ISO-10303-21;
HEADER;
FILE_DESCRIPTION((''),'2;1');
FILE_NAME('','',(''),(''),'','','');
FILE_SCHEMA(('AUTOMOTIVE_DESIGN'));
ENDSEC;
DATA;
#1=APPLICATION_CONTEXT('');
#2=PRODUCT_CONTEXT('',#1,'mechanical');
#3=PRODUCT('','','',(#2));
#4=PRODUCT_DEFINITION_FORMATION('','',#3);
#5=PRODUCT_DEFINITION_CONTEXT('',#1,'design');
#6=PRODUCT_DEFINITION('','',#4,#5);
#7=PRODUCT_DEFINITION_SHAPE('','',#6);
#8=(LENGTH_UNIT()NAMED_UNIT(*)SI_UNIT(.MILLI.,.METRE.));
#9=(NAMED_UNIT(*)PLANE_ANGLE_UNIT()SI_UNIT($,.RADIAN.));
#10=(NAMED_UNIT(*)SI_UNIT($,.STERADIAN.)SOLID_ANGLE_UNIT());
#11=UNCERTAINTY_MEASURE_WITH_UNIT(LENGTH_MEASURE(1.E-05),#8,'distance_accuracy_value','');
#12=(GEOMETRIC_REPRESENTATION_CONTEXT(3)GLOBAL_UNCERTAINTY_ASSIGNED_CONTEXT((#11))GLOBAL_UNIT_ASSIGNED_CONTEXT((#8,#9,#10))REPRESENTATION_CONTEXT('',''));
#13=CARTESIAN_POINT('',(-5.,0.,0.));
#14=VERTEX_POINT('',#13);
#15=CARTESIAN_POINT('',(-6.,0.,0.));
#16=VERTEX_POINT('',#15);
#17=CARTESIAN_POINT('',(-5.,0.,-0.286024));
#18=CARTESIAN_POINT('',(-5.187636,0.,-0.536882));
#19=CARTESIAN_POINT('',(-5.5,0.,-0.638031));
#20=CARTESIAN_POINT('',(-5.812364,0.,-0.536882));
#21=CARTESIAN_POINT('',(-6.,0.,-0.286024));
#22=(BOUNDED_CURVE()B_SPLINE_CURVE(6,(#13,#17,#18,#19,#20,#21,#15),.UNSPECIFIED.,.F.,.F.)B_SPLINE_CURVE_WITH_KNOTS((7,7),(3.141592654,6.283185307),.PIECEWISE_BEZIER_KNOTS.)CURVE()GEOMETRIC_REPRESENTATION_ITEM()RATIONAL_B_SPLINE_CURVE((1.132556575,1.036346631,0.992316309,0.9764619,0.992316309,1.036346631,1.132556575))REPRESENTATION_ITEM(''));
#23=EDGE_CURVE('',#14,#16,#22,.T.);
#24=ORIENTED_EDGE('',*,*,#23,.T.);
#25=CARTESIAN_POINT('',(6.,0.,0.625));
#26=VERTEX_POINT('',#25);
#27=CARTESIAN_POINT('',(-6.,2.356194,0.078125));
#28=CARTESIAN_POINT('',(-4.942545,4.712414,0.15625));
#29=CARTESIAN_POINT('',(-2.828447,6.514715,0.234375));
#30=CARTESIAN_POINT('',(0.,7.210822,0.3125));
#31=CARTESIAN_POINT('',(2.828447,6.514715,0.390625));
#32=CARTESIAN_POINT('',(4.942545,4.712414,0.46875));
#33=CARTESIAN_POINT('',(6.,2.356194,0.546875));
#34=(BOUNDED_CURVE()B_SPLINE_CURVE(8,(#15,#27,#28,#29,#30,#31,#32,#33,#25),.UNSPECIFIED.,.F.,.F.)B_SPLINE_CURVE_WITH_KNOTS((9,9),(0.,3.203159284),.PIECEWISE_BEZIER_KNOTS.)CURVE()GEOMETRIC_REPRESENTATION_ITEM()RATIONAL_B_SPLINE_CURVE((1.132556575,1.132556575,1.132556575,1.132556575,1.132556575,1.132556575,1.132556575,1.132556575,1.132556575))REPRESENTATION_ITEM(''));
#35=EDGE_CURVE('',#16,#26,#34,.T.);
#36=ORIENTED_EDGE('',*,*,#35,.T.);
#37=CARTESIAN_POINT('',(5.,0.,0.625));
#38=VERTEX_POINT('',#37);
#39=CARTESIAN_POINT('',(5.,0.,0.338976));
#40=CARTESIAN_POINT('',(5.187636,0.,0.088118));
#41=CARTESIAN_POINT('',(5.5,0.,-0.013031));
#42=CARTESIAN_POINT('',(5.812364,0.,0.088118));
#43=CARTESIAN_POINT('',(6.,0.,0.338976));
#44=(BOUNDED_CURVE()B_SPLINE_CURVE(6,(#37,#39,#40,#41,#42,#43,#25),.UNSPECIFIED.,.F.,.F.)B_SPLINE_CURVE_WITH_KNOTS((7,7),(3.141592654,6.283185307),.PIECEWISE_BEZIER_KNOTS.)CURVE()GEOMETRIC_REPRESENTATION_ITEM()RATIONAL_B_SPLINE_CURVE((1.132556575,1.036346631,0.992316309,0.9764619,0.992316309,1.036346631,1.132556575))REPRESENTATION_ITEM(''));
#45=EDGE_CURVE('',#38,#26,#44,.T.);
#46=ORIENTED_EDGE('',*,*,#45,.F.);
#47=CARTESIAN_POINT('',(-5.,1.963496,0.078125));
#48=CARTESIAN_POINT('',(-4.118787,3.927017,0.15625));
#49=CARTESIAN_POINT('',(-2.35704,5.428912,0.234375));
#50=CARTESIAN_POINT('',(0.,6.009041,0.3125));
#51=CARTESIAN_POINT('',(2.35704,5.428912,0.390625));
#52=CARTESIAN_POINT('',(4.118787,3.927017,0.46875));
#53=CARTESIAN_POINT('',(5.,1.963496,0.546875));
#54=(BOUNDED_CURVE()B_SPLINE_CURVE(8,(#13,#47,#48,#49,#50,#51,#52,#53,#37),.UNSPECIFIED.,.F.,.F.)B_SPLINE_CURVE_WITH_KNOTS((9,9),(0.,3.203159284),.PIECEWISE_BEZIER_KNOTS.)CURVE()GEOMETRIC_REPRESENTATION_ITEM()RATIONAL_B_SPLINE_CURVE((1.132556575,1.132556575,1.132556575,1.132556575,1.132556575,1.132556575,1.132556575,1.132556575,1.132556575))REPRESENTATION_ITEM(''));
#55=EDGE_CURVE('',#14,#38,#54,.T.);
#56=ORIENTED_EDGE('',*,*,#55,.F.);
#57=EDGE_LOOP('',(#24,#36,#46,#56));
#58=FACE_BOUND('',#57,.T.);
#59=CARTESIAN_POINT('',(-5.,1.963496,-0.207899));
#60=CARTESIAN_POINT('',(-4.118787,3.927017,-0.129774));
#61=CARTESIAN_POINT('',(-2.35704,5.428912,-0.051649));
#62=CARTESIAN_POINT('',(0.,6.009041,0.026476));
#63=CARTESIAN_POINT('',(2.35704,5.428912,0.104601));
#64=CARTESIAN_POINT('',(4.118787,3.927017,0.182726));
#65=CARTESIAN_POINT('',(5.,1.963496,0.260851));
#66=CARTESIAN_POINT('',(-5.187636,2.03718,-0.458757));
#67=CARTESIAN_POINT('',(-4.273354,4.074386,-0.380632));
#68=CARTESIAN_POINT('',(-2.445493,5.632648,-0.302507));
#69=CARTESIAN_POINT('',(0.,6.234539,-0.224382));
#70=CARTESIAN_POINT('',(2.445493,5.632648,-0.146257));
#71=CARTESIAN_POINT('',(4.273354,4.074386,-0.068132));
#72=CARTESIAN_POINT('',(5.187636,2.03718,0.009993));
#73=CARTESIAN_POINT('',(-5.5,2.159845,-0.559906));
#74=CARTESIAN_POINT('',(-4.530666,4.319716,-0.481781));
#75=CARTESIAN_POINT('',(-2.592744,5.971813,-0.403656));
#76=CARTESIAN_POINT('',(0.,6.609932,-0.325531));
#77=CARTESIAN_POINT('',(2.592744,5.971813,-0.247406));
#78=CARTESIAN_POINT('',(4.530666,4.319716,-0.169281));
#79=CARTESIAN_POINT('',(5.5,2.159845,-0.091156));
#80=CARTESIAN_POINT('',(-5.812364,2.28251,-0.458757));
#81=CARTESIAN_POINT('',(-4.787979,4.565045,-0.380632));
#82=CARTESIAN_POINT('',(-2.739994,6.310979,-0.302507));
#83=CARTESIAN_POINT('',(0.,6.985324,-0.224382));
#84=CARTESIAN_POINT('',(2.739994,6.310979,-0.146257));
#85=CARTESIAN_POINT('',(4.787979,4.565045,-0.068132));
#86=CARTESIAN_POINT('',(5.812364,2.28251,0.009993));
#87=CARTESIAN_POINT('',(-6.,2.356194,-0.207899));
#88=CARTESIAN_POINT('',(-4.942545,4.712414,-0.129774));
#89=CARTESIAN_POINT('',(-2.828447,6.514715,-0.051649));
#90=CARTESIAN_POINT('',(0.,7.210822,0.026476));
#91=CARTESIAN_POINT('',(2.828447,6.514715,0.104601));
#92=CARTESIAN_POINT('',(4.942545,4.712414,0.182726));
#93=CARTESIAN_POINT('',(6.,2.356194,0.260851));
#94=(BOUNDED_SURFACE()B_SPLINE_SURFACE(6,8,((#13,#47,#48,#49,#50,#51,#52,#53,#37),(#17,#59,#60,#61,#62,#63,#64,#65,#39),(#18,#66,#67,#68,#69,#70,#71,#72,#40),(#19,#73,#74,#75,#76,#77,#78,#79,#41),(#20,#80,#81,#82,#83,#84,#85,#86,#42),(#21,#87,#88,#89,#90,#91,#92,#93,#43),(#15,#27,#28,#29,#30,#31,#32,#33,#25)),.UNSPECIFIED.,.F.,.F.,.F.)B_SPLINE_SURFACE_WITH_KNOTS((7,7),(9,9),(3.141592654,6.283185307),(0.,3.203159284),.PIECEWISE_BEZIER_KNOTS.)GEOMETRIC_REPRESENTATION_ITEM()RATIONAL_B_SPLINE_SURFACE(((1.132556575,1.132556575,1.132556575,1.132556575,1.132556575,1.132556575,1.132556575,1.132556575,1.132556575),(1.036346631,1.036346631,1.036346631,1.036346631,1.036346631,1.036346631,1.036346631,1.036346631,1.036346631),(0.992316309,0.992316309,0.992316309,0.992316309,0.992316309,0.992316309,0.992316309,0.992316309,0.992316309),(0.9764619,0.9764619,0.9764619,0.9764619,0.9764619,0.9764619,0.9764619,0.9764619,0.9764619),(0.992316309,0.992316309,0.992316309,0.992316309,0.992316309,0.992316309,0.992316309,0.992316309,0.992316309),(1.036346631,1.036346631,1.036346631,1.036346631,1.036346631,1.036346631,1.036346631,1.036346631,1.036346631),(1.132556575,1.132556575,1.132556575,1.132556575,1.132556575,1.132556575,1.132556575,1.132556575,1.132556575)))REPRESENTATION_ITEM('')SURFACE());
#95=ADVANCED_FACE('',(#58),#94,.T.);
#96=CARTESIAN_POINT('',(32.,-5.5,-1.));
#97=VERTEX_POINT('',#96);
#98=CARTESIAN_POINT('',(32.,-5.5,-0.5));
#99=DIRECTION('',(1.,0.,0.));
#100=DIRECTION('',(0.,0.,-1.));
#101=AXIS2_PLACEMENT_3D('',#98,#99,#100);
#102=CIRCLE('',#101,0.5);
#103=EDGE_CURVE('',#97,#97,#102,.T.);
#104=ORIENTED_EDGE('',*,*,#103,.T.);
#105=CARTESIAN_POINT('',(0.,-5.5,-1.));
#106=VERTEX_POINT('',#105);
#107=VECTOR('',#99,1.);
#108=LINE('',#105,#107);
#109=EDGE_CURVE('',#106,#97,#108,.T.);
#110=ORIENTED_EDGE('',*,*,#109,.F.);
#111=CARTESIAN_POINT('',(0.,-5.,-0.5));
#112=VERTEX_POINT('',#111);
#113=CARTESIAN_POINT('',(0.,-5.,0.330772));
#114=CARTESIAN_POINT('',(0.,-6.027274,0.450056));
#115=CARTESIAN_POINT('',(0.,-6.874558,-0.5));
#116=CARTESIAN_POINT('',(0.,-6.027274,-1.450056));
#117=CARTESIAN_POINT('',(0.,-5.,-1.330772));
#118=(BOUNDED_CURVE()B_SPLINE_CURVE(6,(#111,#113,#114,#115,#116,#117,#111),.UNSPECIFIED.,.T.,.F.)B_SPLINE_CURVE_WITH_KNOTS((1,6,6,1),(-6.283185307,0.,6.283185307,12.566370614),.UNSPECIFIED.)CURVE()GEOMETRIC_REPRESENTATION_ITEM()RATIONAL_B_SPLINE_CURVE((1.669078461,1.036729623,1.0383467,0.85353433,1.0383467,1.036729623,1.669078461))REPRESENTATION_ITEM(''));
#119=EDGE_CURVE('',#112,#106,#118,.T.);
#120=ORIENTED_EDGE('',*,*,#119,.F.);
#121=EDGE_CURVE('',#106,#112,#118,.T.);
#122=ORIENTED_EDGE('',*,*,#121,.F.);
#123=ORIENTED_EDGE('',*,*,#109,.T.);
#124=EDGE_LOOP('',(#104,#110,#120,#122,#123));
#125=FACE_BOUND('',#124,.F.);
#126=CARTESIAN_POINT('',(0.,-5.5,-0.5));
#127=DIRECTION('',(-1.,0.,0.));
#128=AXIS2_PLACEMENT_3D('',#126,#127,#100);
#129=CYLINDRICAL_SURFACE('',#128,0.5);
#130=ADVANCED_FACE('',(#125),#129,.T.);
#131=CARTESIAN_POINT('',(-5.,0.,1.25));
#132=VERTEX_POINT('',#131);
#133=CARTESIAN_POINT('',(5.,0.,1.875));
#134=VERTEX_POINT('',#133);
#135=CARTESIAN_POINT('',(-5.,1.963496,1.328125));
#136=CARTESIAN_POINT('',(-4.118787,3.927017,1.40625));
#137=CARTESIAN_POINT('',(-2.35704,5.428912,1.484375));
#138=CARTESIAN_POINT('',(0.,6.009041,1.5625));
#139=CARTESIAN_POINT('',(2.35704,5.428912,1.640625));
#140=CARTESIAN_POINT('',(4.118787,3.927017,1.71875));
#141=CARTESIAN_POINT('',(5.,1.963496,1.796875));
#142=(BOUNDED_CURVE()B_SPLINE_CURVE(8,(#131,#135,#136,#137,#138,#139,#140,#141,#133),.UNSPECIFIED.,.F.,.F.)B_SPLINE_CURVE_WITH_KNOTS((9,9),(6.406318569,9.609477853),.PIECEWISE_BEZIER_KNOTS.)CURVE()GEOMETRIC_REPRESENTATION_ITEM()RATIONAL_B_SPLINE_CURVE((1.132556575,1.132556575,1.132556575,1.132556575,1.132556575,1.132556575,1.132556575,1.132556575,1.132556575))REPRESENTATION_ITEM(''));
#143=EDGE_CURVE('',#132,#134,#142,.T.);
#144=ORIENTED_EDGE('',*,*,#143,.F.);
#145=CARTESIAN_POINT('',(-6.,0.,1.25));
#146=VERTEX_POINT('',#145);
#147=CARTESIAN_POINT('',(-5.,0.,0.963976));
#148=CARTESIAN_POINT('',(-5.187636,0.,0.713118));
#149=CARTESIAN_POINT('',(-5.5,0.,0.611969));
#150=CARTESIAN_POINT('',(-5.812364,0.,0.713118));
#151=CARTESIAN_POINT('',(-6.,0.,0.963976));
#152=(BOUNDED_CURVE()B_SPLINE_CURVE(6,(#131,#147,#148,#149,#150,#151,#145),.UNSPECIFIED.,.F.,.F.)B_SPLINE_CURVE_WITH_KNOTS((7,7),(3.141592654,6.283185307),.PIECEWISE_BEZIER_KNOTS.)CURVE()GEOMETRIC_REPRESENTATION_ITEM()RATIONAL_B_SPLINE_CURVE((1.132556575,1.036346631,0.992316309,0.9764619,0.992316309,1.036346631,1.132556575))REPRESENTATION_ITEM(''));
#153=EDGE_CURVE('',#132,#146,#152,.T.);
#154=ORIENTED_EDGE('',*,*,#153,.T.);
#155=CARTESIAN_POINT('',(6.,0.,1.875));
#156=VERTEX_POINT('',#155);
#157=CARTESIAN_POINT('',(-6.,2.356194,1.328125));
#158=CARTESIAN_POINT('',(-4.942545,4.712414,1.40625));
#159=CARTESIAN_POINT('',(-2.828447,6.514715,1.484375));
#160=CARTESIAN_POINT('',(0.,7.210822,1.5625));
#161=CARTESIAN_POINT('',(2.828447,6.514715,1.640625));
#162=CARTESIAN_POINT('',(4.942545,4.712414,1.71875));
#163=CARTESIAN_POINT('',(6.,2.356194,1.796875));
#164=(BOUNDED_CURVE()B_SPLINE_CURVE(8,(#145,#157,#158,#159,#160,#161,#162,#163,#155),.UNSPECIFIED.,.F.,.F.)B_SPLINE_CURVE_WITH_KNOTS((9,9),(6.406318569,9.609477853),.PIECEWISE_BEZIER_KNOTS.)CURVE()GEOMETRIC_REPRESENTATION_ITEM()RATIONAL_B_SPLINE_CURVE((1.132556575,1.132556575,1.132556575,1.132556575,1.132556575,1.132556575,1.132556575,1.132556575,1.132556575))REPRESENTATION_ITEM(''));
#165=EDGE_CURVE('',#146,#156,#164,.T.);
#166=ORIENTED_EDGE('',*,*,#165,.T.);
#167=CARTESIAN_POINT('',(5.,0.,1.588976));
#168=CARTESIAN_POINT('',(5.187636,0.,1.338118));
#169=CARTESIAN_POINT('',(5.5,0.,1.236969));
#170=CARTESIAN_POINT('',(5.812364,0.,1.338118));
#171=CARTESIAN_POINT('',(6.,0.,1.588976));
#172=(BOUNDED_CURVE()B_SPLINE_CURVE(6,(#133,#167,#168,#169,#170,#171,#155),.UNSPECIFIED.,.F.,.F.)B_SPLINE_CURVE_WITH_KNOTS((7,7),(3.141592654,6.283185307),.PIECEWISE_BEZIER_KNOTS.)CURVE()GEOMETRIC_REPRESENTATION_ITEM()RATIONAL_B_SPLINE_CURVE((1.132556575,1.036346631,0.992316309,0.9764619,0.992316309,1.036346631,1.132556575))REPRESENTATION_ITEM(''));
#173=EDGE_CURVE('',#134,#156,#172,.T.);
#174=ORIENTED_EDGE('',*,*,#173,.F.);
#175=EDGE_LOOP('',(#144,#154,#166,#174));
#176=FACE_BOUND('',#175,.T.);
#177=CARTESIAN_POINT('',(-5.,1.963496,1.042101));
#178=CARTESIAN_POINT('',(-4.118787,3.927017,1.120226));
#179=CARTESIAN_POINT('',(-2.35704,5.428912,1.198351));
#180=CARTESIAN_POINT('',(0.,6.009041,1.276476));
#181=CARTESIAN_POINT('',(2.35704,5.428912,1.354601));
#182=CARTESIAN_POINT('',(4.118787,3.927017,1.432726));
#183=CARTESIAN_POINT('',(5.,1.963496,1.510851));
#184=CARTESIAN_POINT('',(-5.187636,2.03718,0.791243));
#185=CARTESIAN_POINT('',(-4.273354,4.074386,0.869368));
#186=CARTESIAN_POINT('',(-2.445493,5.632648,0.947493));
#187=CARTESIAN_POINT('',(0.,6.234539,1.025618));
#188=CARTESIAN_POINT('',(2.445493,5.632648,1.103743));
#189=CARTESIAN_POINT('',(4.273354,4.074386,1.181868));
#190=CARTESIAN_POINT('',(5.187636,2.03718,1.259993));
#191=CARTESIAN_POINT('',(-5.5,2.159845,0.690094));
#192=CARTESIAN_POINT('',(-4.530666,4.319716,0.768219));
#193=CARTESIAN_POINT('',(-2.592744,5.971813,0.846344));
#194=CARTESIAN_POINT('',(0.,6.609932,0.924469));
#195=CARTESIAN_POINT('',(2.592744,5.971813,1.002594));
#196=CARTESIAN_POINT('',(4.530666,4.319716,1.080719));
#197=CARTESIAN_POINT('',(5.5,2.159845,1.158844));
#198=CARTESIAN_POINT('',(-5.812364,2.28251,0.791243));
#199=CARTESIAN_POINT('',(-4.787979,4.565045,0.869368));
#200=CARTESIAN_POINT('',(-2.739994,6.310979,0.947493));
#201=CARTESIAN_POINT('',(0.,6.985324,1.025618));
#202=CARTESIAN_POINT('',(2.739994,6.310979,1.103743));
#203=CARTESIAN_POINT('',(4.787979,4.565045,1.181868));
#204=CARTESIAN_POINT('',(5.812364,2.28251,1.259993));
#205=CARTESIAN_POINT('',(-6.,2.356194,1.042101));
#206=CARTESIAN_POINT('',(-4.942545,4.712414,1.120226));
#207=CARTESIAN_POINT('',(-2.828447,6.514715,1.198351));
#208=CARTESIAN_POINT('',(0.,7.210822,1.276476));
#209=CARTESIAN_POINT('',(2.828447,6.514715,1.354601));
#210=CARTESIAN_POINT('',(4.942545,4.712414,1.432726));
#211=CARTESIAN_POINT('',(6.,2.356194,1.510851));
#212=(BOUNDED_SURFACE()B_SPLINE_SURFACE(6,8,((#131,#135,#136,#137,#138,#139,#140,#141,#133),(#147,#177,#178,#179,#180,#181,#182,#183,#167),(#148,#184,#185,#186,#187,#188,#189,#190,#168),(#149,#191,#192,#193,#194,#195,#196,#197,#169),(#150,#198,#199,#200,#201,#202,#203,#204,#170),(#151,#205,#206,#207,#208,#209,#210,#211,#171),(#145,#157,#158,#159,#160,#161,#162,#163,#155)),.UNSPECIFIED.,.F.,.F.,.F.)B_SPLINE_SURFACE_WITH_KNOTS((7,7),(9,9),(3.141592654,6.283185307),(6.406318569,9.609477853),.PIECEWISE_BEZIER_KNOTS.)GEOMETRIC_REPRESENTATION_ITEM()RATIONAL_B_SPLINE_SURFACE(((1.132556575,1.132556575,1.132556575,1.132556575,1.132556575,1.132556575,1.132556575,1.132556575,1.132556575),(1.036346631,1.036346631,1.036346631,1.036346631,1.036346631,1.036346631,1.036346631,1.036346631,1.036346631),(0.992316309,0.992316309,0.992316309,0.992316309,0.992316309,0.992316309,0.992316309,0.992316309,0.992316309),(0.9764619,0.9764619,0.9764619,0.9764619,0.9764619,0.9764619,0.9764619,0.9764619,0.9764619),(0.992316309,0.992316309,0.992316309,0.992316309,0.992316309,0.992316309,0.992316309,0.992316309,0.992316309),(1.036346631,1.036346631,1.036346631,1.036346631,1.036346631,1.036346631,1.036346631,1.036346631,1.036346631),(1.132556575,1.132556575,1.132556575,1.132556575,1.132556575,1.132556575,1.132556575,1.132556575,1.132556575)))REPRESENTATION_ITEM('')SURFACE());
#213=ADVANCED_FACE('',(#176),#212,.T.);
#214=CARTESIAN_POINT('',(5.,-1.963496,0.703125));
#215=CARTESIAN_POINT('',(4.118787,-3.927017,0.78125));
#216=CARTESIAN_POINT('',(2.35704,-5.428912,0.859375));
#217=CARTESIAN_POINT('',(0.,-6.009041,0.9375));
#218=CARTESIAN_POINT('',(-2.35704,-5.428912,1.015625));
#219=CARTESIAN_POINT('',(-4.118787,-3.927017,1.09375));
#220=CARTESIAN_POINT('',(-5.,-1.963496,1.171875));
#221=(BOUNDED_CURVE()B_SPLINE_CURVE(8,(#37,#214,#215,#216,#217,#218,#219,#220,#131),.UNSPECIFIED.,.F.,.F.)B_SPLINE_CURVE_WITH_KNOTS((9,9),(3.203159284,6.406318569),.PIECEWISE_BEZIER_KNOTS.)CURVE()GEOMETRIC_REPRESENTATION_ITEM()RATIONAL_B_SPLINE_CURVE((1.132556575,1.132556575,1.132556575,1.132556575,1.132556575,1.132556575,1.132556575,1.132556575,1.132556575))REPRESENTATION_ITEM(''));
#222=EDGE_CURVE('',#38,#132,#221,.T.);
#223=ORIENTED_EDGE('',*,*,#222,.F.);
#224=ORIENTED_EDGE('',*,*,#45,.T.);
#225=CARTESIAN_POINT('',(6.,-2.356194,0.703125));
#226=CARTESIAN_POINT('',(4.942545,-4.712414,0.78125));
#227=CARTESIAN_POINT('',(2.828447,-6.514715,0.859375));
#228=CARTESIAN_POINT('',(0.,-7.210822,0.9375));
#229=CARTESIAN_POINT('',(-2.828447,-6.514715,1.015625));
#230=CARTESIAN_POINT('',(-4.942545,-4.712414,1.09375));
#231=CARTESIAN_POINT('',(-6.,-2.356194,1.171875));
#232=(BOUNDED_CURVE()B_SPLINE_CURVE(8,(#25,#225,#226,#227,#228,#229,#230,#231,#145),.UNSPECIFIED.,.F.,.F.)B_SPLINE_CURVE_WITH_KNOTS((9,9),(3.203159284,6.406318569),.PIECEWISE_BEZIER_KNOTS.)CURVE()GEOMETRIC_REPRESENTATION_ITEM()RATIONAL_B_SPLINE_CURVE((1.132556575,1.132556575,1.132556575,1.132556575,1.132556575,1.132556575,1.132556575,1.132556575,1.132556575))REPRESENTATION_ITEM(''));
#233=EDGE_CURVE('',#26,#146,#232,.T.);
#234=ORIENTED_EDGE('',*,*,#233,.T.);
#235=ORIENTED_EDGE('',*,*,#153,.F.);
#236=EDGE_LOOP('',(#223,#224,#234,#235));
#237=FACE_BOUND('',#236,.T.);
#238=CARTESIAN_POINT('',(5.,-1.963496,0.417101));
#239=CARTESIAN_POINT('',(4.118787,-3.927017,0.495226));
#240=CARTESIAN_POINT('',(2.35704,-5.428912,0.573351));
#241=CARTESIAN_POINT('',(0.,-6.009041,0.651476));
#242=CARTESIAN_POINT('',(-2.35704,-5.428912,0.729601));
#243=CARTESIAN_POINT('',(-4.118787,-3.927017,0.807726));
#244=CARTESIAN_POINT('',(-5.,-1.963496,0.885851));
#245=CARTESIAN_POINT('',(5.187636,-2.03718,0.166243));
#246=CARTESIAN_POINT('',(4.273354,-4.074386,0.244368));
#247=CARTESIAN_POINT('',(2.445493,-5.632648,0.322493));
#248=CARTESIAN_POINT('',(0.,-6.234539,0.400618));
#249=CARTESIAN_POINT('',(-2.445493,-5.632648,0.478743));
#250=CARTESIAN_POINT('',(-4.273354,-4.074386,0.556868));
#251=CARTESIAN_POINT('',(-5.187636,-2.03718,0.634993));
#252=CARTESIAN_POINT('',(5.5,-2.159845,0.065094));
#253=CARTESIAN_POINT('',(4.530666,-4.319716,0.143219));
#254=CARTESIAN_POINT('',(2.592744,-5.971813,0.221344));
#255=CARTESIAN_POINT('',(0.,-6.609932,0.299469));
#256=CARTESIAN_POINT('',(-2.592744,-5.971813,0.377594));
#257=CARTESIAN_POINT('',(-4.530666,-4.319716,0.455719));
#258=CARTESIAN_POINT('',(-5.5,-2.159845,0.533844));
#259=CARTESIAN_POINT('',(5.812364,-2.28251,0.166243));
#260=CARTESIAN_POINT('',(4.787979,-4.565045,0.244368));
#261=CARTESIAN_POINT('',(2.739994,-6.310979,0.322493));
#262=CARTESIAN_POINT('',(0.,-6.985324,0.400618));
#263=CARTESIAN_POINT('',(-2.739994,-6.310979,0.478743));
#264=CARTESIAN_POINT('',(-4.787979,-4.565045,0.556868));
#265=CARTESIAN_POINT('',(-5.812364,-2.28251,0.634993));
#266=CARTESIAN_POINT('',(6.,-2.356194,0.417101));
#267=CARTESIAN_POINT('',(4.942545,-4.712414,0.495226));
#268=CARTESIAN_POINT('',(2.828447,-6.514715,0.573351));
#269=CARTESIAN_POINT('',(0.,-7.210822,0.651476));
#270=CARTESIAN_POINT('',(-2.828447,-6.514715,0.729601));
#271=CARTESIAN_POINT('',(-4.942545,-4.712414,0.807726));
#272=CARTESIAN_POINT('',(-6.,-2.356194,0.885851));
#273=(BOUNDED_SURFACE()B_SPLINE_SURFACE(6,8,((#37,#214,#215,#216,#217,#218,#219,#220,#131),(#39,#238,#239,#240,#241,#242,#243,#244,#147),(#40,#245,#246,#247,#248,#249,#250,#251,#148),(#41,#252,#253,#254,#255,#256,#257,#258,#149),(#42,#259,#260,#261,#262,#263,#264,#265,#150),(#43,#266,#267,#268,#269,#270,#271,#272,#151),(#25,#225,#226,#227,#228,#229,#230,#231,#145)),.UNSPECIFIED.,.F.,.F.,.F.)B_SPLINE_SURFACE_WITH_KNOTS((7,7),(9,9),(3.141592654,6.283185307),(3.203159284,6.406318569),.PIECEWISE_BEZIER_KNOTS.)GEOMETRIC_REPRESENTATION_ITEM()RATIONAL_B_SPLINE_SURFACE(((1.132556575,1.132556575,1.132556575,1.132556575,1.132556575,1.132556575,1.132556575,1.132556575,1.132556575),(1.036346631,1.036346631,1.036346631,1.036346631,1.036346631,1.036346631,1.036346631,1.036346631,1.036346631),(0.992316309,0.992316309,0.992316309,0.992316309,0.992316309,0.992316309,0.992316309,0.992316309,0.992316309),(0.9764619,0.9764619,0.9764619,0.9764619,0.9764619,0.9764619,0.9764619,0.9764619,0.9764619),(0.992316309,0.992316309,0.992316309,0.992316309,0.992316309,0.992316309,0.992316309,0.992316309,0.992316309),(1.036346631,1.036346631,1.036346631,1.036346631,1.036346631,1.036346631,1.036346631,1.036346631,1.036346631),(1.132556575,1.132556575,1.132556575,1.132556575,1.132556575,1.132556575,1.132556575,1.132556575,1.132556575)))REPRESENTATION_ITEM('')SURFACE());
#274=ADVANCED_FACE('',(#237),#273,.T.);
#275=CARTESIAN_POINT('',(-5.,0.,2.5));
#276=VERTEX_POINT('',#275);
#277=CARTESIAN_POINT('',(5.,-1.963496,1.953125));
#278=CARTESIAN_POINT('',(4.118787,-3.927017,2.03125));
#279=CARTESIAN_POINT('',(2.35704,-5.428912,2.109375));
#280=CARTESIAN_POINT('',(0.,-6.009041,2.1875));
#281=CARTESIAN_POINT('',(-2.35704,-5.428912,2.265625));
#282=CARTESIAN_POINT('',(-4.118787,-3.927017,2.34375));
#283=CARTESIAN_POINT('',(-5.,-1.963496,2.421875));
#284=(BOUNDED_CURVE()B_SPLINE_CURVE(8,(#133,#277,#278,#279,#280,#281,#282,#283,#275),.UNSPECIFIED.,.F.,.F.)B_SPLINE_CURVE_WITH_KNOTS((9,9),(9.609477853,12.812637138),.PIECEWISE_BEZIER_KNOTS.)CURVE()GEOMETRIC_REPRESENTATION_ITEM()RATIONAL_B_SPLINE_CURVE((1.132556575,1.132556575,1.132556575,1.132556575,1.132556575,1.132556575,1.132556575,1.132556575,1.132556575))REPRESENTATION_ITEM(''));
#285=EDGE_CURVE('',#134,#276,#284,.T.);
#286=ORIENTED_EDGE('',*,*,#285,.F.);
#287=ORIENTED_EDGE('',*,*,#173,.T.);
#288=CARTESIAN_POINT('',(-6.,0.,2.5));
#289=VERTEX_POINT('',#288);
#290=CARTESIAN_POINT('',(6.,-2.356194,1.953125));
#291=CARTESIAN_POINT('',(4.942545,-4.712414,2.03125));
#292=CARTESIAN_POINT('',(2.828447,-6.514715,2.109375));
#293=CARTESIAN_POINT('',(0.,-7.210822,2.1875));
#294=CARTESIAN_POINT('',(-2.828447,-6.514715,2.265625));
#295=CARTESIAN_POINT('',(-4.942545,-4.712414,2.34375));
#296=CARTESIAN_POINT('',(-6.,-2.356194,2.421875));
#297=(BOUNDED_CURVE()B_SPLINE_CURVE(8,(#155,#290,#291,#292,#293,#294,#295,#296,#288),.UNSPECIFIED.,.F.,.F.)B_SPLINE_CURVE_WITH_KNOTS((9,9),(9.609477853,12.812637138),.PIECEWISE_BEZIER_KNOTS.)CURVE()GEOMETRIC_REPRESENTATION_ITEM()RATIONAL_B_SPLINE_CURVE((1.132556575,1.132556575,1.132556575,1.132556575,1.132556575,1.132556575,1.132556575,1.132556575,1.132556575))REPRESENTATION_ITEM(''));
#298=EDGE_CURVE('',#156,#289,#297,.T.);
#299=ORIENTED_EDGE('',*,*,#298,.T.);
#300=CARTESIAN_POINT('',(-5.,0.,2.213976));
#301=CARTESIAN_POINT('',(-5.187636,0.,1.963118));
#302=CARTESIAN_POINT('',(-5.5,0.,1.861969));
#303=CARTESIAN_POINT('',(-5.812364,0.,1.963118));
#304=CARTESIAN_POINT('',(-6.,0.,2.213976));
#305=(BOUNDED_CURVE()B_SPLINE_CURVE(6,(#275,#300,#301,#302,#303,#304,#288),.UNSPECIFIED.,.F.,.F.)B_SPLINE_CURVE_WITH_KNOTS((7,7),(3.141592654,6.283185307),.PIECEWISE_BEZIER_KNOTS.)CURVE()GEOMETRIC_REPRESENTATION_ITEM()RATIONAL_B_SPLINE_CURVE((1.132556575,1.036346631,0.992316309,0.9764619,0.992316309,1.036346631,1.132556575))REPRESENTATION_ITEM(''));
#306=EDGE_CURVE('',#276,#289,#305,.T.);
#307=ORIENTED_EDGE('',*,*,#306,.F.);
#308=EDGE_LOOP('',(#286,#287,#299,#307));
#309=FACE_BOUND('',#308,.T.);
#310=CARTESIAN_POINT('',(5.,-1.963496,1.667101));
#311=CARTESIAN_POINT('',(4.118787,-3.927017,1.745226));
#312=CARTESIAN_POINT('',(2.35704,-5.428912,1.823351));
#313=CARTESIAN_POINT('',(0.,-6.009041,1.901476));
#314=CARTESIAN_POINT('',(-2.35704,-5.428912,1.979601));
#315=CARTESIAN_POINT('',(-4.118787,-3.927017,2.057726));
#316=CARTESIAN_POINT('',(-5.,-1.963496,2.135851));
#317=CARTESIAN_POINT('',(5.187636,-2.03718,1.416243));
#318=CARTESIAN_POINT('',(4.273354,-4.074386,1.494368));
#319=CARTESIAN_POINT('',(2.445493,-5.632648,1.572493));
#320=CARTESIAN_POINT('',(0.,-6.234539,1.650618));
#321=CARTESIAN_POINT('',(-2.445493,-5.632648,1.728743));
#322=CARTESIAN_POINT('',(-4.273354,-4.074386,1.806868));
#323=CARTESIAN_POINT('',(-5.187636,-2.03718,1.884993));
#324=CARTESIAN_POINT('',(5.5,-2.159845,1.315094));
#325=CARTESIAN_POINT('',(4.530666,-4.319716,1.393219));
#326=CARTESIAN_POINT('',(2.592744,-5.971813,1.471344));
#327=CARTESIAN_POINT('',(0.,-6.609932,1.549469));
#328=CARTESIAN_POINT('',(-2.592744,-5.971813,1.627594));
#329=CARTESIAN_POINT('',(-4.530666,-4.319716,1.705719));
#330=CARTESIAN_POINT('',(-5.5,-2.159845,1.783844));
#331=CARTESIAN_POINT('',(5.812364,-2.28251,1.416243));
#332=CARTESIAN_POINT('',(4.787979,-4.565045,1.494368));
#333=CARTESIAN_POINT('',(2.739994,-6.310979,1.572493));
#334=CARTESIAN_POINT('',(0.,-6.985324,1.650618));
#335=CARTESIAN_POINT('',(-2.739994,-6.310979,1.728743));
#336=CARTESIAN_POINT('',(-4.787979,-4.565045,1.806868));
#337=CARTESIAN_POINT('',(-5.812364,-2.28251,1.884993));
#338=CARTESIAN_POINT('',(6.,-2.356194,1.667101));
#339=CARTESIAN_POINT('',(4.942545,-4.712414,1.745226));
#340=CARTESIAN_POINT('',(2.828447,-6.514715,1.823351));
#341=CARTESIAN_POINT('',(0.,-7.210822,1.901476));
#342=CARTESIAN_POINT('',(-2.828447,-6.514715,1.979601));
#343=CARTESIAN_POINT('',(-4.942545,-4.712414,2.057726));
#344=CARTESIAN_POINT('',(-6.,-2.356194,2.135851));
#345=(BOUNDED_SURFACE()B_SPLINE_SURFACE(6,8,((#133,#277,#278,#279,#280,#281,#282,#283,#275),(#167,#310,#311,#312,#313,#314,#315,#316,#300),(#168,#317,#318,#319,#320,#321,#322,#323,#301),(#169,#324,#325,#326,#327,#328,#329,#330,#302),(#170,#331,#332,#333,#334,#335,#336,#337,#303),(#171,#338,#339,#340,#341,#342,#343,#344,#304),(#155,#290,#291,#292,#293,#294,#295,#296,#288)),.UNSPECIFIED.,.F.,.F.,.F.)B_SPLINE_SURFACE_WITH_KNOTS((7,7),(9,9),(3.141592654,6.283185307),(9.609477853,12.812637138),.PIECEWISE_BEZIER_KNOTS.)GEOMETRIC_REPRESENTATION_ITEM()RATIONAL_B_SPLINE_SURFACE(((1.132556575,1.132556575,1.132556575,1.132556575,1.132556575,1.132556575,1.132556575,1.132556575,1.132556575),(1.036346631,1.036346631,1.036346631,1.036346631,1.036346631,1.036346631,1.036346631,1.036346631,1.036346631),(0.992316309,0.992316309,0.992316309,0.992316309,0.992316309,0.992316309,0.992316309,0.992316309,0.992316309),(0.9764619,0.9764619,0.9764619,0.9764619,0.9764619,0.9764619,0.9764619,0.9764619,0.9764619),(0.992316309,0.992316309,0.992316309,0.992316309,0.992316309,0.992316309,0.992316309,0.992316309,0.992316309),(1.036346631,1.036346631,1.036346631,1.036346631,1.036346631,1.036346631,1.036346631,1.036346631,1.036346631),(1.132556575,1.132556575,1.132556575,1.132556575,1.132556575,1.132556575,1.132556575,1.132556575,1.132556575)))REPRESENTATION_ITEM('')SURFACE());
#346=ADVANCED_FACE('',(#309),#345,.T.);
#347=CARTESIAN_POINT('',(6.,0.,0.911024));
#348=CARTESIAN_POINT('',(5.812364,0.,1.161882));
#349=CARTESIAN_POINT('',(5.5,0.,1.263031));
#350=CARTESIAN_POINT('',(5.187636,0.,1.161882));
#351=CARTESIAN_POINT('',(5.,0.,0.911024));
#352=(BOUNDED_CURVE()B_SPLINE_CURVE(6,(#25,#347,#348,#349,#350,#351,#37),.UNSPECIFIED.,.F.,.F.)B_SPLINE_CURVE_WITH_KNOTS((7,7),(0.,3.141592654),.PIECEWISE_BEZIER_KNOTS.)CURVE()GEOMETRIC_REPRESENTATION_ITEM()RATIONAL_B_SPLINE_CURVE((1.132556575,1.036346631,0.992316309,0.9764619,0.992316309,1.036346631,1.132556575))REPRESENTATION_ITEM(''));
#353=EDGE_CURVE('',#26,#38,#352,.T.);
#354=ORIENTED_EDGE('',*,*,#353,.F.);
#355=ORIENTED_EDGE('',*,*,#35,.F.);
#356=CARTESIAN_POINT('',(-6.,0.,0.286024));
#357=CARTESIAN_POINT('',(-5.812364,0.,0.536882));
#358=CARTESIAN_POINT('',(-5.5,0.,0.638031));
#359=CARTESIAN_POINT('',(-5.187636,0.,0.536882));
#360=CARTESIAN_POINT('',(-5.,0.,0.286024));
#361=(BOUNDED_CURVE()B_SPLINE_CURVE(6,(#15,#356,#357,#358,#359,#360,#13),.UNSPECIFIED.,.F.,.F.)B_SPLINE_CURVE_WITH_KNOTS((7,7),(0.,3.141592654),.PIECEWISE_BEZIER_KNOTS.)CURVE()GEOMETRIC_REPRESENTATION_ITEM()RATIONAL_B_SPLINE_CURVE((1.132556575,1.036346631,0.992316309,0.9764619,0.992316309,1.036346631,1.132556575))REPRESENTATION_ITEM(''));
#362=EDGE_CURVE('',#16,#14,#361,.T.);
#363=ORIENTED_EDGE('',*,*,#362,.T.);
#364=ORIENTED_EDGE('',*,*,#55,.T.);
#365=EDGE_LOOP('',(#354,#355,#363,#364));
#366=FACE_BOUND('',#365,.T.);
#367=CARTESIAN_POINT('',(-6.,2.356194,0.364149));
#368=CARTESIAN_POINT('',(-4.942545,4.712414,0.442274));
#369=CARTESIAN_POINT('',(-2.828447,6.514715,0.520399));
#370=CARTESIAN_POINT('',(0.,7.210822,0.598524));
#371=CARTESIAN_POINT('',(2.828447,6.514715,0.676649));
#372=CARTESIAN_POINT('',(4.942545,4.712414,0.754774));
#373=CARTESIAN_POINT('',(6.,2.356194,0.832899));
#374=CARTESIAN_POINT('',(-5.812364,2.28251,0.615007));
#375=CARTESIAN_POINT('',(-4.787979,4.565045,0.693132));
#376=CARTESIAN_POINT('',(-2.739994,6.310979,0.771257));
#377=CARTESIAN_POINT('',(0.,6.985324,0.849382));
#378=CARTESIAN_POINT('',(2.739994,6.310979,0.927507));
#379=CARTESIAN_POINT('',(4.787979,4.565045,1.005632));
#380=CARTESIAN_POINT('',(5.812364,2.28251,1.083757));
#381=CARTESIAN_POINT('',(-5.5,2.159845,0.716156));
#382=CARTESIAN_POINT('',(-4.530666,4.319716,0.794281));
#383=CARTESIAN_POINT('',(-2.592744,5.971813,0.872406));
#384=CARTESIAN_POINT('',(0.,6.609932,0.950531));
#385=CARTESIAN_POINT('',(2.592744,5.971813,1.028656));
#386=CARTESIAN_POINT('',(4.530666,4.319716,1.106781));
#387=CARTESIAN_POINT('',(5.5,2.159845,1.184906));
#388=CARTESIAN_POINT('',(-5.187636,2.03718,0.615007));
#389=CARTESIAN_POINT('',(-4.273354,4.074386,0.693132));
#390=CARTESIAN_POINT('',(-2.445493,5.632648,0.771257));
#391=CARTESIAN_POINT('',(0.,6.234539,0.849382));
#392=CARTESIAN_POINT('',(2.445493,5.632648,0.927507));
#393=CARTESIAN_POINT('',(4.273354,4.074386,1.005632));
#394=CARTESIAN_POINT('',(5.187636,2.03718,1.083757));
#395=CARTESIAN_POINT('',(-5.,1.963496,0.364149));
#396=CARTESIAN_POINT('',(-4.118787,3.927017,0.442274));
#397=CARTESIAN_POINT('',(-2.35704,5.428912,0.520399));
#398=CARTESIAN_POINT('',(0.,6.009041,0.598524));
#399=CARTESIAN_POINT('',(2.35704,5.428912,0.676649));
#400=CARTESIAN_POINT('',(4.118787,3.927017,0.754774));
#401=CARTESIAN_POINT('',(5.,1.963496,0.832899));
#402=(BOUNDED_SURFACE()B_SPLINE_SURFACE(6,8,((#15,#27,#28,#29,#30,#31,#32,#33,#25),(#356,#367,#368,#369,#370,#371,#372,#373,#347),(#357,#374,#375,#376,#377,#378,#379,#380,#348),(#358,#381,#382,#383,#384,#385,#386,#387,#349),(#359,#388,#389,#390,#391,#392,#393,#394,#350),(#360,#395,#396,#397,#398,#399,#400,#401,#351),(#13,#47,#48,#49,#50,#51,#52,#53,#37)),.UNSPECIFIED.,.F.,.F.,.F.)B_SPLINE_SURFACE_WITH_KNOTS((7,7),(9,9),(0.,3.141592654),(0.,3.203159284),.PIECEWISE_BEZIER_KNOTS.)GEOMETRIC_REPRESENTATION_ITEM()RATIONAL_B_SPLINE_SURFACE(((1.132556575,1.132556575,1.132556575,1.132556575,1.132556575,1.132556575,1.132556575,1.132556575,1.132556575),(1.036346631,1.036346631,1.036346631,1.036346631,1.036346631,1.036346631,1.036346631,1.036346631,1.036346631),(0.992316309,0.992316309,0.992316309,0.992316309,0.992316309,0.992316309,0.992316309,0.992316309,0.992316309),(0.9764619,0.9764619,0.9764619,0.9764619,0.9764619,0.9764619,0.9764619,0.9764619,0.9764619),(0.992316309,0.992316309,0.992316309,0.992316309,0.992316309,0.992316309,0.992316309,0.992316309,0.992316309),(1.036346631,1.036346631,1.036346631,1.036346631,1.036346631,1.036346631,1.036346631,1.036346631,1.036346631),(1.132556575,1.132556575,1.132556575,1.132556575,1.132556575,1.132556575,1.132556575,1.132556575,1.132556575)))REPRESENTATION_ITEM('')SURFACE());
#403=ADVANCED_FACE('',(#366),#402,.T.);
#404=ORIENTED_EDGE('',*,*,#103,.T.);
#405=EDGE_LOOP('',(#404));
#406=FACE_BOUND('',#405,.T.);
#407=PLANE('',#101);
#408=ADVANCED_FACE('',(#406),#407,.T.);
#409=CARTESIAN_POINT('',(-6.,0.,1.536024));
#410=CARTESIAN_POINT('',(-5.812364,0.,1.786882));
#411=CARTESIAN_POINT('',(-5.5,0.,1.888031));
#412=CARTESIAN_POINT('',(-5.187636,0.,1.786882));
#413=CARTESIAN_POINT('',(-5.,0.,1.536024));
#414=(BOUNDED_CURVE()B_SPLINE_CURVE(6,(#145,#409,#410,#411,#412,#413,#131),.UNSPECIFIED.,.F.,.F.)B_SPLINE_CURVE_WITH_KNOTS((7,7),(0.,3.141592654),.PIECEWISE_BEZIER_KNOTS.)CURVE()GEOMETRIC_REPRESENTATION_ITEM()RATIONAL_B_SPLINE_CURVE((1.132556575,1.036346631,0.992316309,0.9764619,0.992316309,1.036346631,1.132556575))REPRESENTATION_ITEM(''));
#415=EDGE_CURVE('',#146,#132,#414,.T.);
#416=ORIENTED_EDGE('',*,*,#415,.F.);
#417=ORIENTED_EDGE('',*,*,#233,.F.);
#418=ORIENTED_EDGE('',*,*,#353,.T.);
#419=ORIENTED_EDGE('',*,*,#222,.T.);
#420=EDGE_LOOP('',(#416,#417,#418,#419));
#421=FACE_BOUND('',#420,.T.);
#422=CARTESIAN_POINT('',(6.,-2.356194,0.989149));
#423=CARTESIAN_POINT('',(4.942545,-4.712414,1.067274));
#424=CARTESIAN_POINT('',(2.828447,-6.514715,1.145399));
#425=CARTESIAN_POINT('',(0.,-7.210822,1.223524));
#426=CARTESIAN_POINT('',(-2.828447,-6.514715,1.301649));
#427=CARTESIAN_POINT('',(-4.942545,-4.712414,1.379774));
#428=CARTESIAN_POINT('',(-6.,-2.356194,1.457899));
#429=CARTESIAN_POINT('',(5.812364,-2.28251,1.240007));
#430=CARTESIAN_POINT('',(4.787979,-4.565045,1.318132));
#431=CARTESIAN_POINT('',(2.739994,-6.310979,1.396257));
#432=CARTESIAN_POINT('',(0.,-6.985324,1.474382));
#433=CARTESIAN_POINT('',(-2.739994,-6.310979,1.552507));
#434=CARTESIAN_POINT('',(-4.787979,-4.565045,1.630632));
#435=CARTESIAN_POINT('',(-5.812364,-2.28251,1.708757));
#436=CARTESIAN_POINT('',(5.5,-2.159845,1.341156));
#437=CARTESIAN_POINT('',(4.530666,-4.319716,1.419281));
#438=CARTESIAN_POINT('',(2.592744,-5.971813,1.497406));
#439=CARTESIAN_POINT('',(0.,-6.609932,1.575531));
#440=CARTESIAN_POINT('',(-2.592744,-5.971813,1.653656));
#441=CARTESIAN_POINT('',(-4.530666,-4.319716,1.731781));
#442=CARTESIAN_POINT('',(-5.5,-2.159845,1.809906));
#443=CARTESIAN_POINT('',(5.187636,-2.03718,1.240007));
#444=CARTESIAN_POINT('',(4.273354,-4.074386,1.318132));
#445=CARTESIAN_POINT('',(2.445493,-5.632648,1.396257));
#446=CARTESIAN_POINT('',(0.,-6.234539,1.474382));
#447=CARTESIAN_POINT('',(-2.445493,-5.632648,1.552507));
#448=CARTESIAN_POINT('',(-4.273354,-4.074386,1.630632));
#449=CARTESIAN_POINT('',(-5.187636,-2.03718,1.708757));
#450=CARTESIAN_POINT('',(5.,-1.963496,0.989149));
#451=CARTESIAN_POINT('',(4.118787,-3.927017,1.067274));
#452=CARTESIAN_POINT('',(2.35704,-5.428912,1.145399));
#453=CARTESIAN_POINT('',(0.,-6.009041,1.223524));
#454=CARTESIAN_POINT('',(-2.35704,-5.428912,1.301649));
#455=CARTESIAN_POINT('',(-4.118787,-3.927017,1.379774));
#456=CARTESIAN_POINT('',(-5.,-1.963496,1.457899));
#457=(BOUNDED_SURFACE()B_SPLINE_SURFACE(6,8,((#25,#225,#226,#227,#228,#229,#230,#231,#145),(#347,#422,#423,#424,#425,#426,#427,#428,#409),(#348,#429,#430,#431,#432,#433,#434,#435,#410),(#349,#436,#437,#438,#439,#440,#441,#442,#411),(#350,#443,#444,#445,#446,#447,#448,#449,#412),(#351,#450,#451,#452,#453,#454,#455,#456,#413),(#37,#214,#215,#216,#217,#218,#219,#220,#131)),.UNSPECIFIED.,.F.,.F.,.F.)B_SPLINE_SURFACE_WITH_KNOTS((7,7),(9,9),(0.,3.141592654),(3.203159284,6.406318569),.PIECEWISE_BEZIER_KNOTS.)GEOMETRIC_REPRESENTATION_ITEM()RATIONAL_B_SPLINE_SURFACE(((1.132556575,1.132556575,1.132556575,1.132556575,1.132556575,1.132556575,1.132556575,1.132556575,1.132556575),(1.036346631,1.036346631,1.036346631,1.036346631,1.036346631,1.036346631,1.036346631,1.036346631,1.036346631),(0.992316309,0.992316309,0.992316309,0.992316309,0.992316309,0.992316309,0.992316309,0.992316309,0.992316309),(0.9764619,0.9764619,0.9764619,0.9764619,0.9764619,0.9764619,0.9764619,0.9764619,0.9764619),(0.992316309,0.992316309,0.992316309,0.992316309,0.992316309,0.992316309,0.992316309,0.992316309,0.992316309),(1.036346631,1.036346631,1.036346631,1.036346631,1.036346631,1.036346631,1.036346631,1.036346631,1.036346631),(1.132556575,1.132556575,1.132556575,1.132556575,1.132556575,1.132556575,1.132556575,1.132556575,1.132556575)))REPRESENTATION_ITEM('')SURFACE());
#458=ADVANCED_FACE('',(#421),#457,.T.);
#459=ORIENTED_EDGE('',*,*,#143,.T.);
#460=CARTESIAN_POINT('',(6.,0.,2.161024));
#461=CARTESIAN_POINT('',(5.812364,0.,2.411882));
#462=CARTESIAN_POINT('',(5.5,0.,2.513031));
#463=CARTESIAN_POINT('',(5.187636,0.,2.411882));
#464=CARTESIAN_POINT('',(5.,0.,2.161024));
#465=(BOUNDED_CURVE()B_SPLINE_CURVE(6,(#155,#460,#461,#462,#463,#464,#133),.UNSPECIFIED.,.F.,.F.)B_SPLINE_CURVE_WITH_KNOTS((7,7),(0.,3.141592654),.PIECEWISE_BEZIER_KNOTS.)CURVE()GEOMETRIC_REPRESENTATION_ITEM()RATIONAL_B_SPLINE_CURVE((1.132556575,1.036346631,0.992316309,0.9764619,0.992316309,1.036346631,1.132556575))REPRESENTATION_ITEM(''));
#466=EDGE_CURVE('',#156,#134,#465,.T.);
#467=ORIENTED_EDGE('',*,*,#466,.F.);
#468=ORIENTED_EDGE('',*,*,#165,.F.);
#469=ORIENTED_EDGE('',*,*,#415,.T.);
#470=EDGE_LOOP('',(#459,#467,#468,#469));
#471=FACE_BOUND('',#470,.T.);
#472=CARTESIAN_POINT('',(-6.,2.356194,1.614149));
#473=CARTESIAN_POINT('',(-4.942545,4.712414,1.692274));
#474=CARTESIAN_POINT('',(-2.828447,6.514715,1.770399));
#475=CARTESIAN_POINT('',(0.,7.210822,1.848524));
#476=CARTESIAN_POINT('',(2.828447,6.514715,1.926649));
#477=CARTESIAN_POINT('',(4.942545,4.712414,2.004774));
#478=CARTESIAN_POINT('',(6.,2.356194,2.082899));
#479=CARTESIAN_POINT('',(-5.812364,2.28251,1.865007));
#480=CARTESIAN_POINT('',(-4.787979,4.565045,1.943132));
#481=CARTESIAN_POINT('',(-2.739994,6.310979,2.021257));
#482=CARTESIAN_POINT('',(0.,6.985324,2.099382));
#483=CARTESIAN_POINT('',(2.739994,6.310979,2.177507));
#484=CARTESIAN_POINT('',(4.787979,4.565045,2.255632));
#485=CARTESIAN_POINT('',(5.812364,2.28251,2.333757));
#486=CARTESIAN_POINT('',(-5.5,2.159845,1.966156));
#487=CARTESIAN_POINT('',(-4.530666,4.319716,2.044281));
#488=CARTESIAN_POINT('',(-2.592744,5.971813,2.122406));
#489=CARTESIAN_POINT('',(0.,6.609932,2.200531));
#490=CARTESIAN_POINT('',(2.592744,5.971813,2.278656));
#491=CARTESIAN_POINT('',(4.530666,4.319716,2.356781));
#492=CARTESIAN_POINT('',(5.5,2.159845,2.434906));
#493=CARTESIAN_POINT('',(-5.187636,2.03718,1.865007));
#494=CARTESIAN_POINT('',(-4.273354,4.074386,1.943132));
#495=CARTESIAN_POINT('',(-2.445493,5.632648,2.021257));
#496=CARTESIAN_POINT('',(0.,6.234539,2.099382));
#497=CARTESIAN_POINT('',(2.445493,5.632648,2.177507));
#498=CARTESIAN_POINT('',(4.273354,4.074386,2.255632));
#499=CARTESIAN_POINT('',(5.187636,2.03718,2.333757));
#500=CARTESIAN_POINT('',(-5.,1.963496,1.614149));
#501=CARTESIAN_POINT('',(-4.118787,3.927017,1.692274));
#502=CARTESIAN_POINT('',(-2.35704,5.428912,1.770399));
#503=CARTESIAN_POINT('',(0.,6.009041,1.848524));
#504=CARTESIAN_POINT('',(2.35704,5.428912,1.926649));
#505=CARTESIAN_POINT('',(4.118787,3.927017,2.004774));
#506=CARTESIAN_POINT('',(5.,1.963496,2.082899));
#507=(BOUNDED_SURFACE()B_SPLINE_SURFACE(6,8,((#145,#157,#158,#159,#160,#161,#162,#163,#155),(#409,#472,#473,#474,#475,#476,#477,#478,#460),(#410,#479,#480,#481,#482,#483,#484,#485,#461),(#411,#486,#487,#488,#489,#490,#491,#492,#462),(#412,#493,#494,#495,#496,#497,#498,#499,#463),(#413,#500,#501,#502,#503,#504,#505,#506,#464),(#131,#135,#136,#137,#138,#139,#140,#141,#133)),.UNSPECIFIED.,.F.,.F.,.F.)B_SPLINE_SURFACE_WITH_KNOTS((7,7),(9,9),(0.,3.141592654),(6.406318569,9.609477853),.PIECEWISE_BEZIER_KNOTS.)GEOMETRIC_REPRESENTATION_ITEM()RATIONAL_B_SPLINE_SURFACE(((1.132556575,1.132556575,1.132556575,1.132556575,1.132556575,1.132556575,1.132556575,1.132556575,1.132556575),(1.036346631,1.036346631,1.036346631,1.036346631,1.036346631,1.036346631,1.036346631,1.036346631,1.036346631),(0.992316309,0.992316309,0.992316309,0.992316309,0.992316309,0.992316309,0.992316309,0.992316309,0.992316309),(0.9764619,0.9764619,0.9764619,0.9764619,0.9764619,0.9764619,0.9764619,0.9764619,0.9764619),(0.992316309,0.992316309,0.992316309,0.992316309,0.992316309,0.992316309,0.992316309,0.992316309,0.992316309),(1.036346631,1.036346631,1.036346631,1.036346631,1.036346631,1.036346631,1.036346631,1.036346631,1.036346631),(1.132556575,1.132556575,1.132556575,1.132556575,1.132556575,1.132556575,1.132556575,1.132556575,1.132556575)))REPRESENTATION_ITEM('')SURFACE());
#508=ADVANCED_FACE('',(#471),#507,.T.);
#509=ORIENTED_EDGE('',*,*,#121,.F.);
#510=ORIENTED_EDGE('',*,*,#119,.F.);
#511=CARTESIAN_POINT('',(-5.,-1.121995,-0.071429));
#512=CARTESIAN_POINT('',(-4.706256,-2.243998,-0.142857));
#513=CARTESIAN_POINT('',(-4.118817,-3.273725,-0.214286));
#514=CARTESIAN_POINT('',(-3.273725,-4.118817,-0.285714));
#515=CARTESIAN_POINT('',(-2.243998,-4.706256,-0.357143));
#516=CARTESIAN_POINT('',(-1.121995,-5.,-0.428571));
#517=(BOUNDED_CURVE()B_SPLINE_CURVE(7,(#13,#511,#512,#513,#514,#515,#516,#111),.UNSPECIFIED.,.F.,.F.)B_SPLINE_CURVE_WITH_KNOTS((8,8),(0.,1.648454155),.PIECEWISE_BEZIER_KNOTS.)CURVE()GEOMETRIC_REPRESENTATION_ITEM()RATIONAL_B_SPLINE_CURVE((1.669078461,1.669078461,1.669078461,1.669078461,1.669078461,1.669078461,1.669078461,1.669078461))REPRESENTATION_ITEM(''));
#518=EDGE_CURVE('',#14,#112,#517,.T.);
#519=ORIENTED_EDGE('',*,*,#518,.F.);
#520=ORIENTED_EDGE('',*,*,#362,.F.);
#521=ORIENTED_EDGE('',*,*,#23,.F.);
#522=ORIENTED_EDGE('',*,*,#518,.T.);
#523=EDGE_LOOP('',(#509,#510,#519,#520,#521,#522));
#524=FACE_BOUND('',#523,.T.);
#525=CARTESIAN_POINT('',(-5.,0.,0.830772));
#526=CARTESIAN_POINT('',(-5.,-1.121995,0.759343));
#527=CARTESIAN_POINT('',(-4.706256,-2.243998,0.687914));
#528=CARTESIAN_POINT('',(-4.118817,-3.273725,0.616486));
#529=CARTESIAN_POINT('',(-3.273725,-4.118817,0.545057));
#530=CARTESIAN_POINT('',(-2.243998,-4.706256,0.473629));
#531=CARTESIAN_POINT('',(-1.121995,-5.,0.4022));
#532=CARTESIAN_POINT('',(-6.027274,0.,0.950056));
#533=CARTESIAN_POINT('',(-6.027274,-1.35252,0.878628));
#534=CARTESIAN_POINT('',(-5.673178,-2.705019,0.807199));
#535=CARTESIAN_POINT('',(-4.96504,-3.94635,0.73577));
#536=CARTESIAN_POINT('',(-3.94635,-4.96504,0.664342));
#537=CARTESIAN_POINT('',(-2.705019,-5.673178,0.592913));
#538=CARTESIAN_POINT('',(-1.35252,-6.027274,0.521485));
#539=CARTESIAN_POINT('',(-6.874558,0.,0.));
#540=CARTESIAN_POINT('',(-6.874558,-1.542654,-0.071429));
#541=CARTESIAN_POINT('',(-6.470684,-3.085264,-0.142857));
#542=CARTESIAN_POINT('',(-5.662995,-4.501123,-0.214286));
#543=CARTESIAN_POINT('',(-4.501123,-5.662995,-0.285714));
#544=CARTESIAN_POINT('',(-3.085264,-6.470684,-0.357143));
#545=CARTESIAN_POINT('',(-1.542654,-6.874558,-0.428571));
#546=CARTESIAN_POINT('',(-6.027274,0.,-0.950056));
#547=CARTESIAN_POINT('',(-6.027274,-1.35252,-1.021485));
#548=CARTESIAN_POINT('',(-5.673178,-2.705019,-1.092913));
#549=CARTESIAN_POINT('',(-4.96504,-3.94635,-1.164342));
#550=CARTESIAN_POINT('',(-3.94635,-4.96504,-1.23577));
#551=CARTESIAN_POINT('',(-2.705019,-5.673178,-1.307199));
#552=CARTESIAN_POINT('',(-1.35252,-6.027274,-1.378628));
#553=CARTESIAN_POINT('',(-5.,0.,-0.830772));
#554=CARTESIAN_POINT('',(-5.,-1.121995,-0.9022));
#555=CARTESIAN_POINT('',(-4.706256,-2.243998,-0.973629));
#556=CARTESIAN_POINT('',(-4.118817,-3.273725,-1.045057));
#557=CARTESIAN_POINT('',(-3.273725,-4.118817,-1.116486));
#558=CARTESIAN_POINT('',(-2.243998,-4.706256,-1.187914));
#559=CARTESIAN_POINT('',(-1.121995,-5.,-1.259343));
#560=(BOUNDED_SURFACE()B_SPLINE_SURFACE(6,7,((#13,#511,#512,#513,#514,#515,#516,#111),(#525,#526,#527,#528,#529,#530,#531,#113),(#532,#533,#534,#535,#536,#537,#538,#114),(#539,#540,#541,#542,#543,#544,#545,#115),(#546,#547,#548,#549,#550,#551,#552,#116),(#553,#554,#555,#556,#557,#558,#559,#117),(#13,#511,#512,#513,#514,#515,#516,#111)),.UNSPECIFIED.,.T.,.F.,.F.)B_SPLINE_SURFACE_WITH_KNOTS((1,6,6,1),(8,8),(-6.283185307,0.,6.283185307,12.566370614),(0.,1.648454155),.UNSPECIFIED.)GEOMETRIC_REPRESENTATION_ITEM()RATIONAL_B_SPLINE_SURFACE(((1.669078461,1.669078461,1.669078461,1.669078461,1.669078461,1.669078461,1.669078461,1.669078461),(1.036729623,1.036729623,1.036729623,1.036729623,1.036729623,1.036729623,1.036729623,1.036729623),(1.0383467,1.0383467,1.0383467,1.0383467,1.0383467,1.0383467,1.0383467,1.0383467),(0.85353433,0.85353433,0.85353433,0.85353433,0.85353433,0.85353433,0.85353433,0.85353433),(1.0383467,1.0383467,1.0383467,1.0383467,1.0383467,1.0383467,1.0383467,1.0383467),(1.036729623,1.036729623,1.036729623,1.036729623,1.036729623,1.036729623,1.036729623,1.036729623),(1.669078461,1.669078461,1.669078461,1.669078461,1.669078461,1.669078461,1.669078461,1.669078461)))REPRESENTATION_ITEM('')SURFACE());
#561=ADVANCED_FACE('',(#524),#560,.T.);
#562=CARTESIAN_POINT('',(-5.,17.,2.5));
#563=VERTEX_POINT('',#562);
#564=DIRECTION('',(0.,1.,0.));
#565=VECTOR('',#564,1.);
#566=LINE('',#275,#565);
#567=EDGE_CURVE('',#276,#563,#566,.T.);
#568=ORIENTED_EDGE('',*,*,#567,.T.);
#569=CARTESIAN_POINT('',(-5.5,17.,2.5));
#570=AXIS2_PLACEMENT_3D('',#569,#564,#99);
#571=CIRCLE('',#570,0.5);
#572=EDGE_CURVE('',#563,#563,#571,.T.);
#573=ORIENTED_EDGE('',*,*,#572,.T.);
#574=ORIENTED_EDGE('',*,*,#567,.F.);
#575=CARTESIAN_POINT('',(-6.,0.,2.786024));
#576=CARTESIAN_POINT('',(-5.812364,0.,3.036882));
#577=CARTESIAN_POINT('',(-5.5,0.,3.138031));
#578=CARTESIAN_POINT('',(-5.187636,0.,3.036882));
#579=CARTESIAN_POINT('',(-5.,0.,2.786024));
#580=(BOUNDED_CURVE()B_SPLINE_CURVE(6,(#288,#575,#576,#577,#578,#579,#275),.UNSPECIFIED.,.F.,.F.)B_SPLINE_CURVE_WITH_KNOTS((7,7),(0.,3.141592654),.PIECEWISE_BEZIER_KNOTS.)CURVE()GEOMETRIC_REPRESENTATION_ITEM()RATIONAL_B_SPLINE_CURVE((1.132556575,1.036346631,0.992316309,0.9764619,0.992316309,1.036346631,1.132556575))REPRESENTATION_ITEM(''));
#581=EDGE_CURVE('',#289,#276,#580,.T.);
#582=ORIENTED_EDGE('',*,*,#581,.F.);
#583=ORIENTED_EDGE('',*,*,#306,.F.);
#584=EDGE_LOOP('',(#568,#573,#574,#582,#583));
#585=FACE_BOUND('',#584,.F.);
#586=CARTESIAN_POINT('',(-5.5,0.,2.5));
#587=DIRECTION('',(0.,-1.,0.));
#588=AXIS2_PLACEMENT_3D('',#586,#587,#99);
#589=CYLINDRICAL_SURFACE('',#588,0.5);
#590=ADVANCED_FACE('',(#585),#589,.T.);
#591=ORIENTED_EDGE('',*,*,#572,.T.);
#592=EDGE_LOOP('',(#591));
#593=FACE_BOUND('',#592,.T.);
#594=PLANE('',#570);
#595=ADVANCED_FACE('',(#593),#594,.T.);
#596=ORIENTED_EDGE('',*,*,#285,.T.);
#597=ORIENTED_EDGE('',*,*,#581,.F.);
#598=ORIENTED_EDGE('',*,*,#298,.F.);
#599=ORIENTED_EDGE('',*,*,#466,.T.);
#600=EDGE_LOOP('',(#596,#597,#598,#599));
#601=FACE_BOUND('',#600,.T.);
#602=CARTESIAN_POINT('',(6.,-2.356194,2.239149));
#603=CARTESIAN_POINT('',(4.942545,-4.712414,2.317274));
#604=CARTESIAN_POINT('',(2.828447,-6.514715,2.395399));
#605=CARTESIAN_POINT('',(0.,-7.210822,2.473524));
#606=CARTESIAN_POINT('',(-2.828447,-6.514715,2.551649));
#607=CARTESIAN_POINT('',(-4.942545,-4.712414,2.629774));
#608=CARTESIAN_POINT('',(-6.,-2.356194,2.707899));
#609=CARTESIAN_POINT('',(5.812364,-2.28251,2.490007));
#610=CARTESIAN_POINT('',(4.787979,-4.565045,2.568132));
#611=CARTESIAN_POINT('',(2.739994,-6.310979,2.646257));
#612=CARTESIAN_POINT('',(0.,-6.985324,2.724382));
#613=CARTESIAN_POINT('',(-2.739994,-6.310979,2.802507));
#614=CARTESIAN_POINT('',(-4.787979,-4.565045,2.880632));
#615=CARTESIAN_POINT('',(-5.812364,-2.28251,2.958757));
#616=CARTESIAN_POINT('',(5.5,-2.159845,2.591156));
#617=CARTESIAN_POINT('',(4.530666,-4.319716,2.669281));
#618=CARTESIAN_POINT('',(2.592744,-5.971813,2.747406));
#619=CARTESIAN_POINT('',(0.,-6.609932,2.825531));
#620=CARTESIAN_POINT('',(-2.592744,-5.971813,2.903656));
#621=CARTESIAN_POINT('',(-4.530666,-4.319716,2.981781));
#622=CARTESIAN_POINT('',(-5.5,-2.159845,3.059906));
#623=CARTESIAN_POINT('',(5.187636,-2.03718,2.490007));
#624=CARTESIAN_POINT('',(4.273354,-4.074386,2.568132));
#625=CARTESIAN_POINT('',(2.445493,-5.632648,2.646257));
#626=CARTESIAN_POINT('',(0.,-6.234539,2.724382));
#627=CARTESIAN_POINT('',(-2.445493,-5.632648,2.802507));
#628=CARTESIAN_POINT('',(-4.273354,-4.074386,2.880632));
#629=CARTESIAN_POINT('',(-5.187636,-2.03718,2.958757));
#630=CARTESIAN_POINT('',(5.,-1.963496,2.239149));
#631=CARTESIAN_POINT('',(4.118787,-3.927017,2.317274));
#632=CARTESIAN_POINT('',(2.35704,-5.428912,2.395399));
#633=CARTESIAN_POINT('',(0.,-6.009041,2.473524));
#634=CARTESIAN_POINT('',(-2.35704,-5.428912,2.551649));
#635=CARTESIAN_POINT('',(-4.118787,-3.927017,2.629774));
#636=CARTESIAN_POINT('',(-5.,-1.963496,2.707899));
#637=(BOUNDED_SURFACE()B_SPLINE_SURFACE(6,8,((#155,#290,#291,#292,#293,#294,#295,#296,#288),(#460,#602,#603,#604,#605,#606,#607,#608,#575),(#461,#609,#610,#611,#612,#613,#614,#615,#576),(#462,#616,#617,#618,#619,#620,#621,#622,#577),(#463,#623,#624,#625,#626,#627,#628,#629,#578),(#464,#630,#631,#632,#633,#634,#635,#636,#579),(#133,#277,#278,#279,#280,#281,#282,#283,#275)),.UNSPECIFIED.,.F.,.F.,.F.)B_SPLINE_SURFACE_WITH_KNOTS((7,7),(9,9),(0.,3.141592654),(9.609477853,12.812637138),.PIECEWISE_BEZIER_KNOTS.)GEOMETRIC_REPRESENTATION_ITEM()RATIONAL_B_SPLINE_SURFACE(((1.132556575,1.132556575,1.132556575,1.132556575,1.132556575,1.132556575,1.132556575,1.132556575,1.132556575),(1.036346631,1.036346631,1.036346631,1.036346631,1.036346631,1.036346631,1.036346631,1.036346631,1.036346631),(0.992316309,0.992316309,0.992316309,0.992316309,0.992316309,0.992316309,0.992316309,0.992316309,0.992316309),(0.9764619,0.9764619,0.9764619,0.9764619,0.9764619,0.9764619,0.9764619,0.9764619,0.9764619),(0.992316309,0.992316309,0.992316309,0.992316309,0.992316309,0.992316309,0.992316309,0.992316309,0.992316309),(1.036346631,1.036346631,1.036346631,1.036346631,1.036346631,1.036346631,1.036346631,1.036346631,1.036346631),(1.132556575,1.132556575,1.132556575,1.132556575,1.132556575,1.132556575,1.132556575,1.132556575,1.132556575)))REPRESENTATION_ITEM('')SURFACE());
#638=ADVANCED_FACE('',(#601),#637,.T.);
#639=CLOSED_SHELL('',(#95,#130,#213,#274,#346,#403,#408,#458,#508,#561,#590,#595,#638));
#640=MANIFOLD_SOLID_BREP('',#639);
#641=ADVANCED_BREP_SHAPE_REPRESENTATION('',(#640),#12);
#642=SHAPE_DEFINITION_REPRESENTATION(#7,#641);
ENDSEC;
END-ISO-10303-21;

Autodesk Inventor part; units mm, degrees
ref_plane "YZ Plane" through (0, 0, 0) normal (1, 0, 0) x (0, 1, 0)
ref_plane "XZ Plane" through (0, 0, 0) normal (0, 1, 0) x (-1, 0, 0)
ref_plane "XY Plane" through (0, 0, 0) normal (0, 0, 1) x (1, 0, 0)
sketch "Sketch1" plane through (0, 0, 0) normal (0, 1, 0) x (-1, 0, 0)
  line L0 (0, 0) -> (5.5, 0)
  circle A0 centre (5.5, 0) radius 0.5
  line L1 (0, 0) -> (0, -0.669)
  dimension "d2" = 5.5
  dimension "d3" = 1
coil "Coil1" sketch "Sketch1" operation add axis through (0, 0, 0) along (0, 0, 1) pitch 1.25 turns 2 hand left
sketch "Sketch2" plane through (-5.5, 0, 2.5) normal (0, 1, 0) x (1, 0, 0)
  circle A0 centre (0, 0) radius 0.5
  point P0 (5.5, 2.5)
extrude "Extrusion1" add sketch "Sketch2" along normal blind 17
sketch "Sketch3" plane through (-5.5, 0, 0) normal (0, -1, 0) x (1, 0, 0)
  circle A0 centre (0, 0) radius 0.5
  line L0 (0, 0) -> (5.5, 0)
  line L1 (5.5, 0) -> (5.5, 1.9866)
coil "Coil2" sketch "Sketch3" operation add axis through (0, 0, 0) along (0, 0, -1) pitch 2 turns 0.25 hand left
sketch "Sketch4" plane through (0, -5.5, -0.5) normal (1, 0, 0) x (0, 0, -1)
  circle A0 centre (0, 0) radius 0.5 projected
  circle A1 centre (0, 0) radius 0.5
  point P0 (-0.5, 5.5)
  point P1 (0, 0.5)
extrude "Extrusion2" add sketch "Sketch4" along normal blind 32
properties part number "Coil"
